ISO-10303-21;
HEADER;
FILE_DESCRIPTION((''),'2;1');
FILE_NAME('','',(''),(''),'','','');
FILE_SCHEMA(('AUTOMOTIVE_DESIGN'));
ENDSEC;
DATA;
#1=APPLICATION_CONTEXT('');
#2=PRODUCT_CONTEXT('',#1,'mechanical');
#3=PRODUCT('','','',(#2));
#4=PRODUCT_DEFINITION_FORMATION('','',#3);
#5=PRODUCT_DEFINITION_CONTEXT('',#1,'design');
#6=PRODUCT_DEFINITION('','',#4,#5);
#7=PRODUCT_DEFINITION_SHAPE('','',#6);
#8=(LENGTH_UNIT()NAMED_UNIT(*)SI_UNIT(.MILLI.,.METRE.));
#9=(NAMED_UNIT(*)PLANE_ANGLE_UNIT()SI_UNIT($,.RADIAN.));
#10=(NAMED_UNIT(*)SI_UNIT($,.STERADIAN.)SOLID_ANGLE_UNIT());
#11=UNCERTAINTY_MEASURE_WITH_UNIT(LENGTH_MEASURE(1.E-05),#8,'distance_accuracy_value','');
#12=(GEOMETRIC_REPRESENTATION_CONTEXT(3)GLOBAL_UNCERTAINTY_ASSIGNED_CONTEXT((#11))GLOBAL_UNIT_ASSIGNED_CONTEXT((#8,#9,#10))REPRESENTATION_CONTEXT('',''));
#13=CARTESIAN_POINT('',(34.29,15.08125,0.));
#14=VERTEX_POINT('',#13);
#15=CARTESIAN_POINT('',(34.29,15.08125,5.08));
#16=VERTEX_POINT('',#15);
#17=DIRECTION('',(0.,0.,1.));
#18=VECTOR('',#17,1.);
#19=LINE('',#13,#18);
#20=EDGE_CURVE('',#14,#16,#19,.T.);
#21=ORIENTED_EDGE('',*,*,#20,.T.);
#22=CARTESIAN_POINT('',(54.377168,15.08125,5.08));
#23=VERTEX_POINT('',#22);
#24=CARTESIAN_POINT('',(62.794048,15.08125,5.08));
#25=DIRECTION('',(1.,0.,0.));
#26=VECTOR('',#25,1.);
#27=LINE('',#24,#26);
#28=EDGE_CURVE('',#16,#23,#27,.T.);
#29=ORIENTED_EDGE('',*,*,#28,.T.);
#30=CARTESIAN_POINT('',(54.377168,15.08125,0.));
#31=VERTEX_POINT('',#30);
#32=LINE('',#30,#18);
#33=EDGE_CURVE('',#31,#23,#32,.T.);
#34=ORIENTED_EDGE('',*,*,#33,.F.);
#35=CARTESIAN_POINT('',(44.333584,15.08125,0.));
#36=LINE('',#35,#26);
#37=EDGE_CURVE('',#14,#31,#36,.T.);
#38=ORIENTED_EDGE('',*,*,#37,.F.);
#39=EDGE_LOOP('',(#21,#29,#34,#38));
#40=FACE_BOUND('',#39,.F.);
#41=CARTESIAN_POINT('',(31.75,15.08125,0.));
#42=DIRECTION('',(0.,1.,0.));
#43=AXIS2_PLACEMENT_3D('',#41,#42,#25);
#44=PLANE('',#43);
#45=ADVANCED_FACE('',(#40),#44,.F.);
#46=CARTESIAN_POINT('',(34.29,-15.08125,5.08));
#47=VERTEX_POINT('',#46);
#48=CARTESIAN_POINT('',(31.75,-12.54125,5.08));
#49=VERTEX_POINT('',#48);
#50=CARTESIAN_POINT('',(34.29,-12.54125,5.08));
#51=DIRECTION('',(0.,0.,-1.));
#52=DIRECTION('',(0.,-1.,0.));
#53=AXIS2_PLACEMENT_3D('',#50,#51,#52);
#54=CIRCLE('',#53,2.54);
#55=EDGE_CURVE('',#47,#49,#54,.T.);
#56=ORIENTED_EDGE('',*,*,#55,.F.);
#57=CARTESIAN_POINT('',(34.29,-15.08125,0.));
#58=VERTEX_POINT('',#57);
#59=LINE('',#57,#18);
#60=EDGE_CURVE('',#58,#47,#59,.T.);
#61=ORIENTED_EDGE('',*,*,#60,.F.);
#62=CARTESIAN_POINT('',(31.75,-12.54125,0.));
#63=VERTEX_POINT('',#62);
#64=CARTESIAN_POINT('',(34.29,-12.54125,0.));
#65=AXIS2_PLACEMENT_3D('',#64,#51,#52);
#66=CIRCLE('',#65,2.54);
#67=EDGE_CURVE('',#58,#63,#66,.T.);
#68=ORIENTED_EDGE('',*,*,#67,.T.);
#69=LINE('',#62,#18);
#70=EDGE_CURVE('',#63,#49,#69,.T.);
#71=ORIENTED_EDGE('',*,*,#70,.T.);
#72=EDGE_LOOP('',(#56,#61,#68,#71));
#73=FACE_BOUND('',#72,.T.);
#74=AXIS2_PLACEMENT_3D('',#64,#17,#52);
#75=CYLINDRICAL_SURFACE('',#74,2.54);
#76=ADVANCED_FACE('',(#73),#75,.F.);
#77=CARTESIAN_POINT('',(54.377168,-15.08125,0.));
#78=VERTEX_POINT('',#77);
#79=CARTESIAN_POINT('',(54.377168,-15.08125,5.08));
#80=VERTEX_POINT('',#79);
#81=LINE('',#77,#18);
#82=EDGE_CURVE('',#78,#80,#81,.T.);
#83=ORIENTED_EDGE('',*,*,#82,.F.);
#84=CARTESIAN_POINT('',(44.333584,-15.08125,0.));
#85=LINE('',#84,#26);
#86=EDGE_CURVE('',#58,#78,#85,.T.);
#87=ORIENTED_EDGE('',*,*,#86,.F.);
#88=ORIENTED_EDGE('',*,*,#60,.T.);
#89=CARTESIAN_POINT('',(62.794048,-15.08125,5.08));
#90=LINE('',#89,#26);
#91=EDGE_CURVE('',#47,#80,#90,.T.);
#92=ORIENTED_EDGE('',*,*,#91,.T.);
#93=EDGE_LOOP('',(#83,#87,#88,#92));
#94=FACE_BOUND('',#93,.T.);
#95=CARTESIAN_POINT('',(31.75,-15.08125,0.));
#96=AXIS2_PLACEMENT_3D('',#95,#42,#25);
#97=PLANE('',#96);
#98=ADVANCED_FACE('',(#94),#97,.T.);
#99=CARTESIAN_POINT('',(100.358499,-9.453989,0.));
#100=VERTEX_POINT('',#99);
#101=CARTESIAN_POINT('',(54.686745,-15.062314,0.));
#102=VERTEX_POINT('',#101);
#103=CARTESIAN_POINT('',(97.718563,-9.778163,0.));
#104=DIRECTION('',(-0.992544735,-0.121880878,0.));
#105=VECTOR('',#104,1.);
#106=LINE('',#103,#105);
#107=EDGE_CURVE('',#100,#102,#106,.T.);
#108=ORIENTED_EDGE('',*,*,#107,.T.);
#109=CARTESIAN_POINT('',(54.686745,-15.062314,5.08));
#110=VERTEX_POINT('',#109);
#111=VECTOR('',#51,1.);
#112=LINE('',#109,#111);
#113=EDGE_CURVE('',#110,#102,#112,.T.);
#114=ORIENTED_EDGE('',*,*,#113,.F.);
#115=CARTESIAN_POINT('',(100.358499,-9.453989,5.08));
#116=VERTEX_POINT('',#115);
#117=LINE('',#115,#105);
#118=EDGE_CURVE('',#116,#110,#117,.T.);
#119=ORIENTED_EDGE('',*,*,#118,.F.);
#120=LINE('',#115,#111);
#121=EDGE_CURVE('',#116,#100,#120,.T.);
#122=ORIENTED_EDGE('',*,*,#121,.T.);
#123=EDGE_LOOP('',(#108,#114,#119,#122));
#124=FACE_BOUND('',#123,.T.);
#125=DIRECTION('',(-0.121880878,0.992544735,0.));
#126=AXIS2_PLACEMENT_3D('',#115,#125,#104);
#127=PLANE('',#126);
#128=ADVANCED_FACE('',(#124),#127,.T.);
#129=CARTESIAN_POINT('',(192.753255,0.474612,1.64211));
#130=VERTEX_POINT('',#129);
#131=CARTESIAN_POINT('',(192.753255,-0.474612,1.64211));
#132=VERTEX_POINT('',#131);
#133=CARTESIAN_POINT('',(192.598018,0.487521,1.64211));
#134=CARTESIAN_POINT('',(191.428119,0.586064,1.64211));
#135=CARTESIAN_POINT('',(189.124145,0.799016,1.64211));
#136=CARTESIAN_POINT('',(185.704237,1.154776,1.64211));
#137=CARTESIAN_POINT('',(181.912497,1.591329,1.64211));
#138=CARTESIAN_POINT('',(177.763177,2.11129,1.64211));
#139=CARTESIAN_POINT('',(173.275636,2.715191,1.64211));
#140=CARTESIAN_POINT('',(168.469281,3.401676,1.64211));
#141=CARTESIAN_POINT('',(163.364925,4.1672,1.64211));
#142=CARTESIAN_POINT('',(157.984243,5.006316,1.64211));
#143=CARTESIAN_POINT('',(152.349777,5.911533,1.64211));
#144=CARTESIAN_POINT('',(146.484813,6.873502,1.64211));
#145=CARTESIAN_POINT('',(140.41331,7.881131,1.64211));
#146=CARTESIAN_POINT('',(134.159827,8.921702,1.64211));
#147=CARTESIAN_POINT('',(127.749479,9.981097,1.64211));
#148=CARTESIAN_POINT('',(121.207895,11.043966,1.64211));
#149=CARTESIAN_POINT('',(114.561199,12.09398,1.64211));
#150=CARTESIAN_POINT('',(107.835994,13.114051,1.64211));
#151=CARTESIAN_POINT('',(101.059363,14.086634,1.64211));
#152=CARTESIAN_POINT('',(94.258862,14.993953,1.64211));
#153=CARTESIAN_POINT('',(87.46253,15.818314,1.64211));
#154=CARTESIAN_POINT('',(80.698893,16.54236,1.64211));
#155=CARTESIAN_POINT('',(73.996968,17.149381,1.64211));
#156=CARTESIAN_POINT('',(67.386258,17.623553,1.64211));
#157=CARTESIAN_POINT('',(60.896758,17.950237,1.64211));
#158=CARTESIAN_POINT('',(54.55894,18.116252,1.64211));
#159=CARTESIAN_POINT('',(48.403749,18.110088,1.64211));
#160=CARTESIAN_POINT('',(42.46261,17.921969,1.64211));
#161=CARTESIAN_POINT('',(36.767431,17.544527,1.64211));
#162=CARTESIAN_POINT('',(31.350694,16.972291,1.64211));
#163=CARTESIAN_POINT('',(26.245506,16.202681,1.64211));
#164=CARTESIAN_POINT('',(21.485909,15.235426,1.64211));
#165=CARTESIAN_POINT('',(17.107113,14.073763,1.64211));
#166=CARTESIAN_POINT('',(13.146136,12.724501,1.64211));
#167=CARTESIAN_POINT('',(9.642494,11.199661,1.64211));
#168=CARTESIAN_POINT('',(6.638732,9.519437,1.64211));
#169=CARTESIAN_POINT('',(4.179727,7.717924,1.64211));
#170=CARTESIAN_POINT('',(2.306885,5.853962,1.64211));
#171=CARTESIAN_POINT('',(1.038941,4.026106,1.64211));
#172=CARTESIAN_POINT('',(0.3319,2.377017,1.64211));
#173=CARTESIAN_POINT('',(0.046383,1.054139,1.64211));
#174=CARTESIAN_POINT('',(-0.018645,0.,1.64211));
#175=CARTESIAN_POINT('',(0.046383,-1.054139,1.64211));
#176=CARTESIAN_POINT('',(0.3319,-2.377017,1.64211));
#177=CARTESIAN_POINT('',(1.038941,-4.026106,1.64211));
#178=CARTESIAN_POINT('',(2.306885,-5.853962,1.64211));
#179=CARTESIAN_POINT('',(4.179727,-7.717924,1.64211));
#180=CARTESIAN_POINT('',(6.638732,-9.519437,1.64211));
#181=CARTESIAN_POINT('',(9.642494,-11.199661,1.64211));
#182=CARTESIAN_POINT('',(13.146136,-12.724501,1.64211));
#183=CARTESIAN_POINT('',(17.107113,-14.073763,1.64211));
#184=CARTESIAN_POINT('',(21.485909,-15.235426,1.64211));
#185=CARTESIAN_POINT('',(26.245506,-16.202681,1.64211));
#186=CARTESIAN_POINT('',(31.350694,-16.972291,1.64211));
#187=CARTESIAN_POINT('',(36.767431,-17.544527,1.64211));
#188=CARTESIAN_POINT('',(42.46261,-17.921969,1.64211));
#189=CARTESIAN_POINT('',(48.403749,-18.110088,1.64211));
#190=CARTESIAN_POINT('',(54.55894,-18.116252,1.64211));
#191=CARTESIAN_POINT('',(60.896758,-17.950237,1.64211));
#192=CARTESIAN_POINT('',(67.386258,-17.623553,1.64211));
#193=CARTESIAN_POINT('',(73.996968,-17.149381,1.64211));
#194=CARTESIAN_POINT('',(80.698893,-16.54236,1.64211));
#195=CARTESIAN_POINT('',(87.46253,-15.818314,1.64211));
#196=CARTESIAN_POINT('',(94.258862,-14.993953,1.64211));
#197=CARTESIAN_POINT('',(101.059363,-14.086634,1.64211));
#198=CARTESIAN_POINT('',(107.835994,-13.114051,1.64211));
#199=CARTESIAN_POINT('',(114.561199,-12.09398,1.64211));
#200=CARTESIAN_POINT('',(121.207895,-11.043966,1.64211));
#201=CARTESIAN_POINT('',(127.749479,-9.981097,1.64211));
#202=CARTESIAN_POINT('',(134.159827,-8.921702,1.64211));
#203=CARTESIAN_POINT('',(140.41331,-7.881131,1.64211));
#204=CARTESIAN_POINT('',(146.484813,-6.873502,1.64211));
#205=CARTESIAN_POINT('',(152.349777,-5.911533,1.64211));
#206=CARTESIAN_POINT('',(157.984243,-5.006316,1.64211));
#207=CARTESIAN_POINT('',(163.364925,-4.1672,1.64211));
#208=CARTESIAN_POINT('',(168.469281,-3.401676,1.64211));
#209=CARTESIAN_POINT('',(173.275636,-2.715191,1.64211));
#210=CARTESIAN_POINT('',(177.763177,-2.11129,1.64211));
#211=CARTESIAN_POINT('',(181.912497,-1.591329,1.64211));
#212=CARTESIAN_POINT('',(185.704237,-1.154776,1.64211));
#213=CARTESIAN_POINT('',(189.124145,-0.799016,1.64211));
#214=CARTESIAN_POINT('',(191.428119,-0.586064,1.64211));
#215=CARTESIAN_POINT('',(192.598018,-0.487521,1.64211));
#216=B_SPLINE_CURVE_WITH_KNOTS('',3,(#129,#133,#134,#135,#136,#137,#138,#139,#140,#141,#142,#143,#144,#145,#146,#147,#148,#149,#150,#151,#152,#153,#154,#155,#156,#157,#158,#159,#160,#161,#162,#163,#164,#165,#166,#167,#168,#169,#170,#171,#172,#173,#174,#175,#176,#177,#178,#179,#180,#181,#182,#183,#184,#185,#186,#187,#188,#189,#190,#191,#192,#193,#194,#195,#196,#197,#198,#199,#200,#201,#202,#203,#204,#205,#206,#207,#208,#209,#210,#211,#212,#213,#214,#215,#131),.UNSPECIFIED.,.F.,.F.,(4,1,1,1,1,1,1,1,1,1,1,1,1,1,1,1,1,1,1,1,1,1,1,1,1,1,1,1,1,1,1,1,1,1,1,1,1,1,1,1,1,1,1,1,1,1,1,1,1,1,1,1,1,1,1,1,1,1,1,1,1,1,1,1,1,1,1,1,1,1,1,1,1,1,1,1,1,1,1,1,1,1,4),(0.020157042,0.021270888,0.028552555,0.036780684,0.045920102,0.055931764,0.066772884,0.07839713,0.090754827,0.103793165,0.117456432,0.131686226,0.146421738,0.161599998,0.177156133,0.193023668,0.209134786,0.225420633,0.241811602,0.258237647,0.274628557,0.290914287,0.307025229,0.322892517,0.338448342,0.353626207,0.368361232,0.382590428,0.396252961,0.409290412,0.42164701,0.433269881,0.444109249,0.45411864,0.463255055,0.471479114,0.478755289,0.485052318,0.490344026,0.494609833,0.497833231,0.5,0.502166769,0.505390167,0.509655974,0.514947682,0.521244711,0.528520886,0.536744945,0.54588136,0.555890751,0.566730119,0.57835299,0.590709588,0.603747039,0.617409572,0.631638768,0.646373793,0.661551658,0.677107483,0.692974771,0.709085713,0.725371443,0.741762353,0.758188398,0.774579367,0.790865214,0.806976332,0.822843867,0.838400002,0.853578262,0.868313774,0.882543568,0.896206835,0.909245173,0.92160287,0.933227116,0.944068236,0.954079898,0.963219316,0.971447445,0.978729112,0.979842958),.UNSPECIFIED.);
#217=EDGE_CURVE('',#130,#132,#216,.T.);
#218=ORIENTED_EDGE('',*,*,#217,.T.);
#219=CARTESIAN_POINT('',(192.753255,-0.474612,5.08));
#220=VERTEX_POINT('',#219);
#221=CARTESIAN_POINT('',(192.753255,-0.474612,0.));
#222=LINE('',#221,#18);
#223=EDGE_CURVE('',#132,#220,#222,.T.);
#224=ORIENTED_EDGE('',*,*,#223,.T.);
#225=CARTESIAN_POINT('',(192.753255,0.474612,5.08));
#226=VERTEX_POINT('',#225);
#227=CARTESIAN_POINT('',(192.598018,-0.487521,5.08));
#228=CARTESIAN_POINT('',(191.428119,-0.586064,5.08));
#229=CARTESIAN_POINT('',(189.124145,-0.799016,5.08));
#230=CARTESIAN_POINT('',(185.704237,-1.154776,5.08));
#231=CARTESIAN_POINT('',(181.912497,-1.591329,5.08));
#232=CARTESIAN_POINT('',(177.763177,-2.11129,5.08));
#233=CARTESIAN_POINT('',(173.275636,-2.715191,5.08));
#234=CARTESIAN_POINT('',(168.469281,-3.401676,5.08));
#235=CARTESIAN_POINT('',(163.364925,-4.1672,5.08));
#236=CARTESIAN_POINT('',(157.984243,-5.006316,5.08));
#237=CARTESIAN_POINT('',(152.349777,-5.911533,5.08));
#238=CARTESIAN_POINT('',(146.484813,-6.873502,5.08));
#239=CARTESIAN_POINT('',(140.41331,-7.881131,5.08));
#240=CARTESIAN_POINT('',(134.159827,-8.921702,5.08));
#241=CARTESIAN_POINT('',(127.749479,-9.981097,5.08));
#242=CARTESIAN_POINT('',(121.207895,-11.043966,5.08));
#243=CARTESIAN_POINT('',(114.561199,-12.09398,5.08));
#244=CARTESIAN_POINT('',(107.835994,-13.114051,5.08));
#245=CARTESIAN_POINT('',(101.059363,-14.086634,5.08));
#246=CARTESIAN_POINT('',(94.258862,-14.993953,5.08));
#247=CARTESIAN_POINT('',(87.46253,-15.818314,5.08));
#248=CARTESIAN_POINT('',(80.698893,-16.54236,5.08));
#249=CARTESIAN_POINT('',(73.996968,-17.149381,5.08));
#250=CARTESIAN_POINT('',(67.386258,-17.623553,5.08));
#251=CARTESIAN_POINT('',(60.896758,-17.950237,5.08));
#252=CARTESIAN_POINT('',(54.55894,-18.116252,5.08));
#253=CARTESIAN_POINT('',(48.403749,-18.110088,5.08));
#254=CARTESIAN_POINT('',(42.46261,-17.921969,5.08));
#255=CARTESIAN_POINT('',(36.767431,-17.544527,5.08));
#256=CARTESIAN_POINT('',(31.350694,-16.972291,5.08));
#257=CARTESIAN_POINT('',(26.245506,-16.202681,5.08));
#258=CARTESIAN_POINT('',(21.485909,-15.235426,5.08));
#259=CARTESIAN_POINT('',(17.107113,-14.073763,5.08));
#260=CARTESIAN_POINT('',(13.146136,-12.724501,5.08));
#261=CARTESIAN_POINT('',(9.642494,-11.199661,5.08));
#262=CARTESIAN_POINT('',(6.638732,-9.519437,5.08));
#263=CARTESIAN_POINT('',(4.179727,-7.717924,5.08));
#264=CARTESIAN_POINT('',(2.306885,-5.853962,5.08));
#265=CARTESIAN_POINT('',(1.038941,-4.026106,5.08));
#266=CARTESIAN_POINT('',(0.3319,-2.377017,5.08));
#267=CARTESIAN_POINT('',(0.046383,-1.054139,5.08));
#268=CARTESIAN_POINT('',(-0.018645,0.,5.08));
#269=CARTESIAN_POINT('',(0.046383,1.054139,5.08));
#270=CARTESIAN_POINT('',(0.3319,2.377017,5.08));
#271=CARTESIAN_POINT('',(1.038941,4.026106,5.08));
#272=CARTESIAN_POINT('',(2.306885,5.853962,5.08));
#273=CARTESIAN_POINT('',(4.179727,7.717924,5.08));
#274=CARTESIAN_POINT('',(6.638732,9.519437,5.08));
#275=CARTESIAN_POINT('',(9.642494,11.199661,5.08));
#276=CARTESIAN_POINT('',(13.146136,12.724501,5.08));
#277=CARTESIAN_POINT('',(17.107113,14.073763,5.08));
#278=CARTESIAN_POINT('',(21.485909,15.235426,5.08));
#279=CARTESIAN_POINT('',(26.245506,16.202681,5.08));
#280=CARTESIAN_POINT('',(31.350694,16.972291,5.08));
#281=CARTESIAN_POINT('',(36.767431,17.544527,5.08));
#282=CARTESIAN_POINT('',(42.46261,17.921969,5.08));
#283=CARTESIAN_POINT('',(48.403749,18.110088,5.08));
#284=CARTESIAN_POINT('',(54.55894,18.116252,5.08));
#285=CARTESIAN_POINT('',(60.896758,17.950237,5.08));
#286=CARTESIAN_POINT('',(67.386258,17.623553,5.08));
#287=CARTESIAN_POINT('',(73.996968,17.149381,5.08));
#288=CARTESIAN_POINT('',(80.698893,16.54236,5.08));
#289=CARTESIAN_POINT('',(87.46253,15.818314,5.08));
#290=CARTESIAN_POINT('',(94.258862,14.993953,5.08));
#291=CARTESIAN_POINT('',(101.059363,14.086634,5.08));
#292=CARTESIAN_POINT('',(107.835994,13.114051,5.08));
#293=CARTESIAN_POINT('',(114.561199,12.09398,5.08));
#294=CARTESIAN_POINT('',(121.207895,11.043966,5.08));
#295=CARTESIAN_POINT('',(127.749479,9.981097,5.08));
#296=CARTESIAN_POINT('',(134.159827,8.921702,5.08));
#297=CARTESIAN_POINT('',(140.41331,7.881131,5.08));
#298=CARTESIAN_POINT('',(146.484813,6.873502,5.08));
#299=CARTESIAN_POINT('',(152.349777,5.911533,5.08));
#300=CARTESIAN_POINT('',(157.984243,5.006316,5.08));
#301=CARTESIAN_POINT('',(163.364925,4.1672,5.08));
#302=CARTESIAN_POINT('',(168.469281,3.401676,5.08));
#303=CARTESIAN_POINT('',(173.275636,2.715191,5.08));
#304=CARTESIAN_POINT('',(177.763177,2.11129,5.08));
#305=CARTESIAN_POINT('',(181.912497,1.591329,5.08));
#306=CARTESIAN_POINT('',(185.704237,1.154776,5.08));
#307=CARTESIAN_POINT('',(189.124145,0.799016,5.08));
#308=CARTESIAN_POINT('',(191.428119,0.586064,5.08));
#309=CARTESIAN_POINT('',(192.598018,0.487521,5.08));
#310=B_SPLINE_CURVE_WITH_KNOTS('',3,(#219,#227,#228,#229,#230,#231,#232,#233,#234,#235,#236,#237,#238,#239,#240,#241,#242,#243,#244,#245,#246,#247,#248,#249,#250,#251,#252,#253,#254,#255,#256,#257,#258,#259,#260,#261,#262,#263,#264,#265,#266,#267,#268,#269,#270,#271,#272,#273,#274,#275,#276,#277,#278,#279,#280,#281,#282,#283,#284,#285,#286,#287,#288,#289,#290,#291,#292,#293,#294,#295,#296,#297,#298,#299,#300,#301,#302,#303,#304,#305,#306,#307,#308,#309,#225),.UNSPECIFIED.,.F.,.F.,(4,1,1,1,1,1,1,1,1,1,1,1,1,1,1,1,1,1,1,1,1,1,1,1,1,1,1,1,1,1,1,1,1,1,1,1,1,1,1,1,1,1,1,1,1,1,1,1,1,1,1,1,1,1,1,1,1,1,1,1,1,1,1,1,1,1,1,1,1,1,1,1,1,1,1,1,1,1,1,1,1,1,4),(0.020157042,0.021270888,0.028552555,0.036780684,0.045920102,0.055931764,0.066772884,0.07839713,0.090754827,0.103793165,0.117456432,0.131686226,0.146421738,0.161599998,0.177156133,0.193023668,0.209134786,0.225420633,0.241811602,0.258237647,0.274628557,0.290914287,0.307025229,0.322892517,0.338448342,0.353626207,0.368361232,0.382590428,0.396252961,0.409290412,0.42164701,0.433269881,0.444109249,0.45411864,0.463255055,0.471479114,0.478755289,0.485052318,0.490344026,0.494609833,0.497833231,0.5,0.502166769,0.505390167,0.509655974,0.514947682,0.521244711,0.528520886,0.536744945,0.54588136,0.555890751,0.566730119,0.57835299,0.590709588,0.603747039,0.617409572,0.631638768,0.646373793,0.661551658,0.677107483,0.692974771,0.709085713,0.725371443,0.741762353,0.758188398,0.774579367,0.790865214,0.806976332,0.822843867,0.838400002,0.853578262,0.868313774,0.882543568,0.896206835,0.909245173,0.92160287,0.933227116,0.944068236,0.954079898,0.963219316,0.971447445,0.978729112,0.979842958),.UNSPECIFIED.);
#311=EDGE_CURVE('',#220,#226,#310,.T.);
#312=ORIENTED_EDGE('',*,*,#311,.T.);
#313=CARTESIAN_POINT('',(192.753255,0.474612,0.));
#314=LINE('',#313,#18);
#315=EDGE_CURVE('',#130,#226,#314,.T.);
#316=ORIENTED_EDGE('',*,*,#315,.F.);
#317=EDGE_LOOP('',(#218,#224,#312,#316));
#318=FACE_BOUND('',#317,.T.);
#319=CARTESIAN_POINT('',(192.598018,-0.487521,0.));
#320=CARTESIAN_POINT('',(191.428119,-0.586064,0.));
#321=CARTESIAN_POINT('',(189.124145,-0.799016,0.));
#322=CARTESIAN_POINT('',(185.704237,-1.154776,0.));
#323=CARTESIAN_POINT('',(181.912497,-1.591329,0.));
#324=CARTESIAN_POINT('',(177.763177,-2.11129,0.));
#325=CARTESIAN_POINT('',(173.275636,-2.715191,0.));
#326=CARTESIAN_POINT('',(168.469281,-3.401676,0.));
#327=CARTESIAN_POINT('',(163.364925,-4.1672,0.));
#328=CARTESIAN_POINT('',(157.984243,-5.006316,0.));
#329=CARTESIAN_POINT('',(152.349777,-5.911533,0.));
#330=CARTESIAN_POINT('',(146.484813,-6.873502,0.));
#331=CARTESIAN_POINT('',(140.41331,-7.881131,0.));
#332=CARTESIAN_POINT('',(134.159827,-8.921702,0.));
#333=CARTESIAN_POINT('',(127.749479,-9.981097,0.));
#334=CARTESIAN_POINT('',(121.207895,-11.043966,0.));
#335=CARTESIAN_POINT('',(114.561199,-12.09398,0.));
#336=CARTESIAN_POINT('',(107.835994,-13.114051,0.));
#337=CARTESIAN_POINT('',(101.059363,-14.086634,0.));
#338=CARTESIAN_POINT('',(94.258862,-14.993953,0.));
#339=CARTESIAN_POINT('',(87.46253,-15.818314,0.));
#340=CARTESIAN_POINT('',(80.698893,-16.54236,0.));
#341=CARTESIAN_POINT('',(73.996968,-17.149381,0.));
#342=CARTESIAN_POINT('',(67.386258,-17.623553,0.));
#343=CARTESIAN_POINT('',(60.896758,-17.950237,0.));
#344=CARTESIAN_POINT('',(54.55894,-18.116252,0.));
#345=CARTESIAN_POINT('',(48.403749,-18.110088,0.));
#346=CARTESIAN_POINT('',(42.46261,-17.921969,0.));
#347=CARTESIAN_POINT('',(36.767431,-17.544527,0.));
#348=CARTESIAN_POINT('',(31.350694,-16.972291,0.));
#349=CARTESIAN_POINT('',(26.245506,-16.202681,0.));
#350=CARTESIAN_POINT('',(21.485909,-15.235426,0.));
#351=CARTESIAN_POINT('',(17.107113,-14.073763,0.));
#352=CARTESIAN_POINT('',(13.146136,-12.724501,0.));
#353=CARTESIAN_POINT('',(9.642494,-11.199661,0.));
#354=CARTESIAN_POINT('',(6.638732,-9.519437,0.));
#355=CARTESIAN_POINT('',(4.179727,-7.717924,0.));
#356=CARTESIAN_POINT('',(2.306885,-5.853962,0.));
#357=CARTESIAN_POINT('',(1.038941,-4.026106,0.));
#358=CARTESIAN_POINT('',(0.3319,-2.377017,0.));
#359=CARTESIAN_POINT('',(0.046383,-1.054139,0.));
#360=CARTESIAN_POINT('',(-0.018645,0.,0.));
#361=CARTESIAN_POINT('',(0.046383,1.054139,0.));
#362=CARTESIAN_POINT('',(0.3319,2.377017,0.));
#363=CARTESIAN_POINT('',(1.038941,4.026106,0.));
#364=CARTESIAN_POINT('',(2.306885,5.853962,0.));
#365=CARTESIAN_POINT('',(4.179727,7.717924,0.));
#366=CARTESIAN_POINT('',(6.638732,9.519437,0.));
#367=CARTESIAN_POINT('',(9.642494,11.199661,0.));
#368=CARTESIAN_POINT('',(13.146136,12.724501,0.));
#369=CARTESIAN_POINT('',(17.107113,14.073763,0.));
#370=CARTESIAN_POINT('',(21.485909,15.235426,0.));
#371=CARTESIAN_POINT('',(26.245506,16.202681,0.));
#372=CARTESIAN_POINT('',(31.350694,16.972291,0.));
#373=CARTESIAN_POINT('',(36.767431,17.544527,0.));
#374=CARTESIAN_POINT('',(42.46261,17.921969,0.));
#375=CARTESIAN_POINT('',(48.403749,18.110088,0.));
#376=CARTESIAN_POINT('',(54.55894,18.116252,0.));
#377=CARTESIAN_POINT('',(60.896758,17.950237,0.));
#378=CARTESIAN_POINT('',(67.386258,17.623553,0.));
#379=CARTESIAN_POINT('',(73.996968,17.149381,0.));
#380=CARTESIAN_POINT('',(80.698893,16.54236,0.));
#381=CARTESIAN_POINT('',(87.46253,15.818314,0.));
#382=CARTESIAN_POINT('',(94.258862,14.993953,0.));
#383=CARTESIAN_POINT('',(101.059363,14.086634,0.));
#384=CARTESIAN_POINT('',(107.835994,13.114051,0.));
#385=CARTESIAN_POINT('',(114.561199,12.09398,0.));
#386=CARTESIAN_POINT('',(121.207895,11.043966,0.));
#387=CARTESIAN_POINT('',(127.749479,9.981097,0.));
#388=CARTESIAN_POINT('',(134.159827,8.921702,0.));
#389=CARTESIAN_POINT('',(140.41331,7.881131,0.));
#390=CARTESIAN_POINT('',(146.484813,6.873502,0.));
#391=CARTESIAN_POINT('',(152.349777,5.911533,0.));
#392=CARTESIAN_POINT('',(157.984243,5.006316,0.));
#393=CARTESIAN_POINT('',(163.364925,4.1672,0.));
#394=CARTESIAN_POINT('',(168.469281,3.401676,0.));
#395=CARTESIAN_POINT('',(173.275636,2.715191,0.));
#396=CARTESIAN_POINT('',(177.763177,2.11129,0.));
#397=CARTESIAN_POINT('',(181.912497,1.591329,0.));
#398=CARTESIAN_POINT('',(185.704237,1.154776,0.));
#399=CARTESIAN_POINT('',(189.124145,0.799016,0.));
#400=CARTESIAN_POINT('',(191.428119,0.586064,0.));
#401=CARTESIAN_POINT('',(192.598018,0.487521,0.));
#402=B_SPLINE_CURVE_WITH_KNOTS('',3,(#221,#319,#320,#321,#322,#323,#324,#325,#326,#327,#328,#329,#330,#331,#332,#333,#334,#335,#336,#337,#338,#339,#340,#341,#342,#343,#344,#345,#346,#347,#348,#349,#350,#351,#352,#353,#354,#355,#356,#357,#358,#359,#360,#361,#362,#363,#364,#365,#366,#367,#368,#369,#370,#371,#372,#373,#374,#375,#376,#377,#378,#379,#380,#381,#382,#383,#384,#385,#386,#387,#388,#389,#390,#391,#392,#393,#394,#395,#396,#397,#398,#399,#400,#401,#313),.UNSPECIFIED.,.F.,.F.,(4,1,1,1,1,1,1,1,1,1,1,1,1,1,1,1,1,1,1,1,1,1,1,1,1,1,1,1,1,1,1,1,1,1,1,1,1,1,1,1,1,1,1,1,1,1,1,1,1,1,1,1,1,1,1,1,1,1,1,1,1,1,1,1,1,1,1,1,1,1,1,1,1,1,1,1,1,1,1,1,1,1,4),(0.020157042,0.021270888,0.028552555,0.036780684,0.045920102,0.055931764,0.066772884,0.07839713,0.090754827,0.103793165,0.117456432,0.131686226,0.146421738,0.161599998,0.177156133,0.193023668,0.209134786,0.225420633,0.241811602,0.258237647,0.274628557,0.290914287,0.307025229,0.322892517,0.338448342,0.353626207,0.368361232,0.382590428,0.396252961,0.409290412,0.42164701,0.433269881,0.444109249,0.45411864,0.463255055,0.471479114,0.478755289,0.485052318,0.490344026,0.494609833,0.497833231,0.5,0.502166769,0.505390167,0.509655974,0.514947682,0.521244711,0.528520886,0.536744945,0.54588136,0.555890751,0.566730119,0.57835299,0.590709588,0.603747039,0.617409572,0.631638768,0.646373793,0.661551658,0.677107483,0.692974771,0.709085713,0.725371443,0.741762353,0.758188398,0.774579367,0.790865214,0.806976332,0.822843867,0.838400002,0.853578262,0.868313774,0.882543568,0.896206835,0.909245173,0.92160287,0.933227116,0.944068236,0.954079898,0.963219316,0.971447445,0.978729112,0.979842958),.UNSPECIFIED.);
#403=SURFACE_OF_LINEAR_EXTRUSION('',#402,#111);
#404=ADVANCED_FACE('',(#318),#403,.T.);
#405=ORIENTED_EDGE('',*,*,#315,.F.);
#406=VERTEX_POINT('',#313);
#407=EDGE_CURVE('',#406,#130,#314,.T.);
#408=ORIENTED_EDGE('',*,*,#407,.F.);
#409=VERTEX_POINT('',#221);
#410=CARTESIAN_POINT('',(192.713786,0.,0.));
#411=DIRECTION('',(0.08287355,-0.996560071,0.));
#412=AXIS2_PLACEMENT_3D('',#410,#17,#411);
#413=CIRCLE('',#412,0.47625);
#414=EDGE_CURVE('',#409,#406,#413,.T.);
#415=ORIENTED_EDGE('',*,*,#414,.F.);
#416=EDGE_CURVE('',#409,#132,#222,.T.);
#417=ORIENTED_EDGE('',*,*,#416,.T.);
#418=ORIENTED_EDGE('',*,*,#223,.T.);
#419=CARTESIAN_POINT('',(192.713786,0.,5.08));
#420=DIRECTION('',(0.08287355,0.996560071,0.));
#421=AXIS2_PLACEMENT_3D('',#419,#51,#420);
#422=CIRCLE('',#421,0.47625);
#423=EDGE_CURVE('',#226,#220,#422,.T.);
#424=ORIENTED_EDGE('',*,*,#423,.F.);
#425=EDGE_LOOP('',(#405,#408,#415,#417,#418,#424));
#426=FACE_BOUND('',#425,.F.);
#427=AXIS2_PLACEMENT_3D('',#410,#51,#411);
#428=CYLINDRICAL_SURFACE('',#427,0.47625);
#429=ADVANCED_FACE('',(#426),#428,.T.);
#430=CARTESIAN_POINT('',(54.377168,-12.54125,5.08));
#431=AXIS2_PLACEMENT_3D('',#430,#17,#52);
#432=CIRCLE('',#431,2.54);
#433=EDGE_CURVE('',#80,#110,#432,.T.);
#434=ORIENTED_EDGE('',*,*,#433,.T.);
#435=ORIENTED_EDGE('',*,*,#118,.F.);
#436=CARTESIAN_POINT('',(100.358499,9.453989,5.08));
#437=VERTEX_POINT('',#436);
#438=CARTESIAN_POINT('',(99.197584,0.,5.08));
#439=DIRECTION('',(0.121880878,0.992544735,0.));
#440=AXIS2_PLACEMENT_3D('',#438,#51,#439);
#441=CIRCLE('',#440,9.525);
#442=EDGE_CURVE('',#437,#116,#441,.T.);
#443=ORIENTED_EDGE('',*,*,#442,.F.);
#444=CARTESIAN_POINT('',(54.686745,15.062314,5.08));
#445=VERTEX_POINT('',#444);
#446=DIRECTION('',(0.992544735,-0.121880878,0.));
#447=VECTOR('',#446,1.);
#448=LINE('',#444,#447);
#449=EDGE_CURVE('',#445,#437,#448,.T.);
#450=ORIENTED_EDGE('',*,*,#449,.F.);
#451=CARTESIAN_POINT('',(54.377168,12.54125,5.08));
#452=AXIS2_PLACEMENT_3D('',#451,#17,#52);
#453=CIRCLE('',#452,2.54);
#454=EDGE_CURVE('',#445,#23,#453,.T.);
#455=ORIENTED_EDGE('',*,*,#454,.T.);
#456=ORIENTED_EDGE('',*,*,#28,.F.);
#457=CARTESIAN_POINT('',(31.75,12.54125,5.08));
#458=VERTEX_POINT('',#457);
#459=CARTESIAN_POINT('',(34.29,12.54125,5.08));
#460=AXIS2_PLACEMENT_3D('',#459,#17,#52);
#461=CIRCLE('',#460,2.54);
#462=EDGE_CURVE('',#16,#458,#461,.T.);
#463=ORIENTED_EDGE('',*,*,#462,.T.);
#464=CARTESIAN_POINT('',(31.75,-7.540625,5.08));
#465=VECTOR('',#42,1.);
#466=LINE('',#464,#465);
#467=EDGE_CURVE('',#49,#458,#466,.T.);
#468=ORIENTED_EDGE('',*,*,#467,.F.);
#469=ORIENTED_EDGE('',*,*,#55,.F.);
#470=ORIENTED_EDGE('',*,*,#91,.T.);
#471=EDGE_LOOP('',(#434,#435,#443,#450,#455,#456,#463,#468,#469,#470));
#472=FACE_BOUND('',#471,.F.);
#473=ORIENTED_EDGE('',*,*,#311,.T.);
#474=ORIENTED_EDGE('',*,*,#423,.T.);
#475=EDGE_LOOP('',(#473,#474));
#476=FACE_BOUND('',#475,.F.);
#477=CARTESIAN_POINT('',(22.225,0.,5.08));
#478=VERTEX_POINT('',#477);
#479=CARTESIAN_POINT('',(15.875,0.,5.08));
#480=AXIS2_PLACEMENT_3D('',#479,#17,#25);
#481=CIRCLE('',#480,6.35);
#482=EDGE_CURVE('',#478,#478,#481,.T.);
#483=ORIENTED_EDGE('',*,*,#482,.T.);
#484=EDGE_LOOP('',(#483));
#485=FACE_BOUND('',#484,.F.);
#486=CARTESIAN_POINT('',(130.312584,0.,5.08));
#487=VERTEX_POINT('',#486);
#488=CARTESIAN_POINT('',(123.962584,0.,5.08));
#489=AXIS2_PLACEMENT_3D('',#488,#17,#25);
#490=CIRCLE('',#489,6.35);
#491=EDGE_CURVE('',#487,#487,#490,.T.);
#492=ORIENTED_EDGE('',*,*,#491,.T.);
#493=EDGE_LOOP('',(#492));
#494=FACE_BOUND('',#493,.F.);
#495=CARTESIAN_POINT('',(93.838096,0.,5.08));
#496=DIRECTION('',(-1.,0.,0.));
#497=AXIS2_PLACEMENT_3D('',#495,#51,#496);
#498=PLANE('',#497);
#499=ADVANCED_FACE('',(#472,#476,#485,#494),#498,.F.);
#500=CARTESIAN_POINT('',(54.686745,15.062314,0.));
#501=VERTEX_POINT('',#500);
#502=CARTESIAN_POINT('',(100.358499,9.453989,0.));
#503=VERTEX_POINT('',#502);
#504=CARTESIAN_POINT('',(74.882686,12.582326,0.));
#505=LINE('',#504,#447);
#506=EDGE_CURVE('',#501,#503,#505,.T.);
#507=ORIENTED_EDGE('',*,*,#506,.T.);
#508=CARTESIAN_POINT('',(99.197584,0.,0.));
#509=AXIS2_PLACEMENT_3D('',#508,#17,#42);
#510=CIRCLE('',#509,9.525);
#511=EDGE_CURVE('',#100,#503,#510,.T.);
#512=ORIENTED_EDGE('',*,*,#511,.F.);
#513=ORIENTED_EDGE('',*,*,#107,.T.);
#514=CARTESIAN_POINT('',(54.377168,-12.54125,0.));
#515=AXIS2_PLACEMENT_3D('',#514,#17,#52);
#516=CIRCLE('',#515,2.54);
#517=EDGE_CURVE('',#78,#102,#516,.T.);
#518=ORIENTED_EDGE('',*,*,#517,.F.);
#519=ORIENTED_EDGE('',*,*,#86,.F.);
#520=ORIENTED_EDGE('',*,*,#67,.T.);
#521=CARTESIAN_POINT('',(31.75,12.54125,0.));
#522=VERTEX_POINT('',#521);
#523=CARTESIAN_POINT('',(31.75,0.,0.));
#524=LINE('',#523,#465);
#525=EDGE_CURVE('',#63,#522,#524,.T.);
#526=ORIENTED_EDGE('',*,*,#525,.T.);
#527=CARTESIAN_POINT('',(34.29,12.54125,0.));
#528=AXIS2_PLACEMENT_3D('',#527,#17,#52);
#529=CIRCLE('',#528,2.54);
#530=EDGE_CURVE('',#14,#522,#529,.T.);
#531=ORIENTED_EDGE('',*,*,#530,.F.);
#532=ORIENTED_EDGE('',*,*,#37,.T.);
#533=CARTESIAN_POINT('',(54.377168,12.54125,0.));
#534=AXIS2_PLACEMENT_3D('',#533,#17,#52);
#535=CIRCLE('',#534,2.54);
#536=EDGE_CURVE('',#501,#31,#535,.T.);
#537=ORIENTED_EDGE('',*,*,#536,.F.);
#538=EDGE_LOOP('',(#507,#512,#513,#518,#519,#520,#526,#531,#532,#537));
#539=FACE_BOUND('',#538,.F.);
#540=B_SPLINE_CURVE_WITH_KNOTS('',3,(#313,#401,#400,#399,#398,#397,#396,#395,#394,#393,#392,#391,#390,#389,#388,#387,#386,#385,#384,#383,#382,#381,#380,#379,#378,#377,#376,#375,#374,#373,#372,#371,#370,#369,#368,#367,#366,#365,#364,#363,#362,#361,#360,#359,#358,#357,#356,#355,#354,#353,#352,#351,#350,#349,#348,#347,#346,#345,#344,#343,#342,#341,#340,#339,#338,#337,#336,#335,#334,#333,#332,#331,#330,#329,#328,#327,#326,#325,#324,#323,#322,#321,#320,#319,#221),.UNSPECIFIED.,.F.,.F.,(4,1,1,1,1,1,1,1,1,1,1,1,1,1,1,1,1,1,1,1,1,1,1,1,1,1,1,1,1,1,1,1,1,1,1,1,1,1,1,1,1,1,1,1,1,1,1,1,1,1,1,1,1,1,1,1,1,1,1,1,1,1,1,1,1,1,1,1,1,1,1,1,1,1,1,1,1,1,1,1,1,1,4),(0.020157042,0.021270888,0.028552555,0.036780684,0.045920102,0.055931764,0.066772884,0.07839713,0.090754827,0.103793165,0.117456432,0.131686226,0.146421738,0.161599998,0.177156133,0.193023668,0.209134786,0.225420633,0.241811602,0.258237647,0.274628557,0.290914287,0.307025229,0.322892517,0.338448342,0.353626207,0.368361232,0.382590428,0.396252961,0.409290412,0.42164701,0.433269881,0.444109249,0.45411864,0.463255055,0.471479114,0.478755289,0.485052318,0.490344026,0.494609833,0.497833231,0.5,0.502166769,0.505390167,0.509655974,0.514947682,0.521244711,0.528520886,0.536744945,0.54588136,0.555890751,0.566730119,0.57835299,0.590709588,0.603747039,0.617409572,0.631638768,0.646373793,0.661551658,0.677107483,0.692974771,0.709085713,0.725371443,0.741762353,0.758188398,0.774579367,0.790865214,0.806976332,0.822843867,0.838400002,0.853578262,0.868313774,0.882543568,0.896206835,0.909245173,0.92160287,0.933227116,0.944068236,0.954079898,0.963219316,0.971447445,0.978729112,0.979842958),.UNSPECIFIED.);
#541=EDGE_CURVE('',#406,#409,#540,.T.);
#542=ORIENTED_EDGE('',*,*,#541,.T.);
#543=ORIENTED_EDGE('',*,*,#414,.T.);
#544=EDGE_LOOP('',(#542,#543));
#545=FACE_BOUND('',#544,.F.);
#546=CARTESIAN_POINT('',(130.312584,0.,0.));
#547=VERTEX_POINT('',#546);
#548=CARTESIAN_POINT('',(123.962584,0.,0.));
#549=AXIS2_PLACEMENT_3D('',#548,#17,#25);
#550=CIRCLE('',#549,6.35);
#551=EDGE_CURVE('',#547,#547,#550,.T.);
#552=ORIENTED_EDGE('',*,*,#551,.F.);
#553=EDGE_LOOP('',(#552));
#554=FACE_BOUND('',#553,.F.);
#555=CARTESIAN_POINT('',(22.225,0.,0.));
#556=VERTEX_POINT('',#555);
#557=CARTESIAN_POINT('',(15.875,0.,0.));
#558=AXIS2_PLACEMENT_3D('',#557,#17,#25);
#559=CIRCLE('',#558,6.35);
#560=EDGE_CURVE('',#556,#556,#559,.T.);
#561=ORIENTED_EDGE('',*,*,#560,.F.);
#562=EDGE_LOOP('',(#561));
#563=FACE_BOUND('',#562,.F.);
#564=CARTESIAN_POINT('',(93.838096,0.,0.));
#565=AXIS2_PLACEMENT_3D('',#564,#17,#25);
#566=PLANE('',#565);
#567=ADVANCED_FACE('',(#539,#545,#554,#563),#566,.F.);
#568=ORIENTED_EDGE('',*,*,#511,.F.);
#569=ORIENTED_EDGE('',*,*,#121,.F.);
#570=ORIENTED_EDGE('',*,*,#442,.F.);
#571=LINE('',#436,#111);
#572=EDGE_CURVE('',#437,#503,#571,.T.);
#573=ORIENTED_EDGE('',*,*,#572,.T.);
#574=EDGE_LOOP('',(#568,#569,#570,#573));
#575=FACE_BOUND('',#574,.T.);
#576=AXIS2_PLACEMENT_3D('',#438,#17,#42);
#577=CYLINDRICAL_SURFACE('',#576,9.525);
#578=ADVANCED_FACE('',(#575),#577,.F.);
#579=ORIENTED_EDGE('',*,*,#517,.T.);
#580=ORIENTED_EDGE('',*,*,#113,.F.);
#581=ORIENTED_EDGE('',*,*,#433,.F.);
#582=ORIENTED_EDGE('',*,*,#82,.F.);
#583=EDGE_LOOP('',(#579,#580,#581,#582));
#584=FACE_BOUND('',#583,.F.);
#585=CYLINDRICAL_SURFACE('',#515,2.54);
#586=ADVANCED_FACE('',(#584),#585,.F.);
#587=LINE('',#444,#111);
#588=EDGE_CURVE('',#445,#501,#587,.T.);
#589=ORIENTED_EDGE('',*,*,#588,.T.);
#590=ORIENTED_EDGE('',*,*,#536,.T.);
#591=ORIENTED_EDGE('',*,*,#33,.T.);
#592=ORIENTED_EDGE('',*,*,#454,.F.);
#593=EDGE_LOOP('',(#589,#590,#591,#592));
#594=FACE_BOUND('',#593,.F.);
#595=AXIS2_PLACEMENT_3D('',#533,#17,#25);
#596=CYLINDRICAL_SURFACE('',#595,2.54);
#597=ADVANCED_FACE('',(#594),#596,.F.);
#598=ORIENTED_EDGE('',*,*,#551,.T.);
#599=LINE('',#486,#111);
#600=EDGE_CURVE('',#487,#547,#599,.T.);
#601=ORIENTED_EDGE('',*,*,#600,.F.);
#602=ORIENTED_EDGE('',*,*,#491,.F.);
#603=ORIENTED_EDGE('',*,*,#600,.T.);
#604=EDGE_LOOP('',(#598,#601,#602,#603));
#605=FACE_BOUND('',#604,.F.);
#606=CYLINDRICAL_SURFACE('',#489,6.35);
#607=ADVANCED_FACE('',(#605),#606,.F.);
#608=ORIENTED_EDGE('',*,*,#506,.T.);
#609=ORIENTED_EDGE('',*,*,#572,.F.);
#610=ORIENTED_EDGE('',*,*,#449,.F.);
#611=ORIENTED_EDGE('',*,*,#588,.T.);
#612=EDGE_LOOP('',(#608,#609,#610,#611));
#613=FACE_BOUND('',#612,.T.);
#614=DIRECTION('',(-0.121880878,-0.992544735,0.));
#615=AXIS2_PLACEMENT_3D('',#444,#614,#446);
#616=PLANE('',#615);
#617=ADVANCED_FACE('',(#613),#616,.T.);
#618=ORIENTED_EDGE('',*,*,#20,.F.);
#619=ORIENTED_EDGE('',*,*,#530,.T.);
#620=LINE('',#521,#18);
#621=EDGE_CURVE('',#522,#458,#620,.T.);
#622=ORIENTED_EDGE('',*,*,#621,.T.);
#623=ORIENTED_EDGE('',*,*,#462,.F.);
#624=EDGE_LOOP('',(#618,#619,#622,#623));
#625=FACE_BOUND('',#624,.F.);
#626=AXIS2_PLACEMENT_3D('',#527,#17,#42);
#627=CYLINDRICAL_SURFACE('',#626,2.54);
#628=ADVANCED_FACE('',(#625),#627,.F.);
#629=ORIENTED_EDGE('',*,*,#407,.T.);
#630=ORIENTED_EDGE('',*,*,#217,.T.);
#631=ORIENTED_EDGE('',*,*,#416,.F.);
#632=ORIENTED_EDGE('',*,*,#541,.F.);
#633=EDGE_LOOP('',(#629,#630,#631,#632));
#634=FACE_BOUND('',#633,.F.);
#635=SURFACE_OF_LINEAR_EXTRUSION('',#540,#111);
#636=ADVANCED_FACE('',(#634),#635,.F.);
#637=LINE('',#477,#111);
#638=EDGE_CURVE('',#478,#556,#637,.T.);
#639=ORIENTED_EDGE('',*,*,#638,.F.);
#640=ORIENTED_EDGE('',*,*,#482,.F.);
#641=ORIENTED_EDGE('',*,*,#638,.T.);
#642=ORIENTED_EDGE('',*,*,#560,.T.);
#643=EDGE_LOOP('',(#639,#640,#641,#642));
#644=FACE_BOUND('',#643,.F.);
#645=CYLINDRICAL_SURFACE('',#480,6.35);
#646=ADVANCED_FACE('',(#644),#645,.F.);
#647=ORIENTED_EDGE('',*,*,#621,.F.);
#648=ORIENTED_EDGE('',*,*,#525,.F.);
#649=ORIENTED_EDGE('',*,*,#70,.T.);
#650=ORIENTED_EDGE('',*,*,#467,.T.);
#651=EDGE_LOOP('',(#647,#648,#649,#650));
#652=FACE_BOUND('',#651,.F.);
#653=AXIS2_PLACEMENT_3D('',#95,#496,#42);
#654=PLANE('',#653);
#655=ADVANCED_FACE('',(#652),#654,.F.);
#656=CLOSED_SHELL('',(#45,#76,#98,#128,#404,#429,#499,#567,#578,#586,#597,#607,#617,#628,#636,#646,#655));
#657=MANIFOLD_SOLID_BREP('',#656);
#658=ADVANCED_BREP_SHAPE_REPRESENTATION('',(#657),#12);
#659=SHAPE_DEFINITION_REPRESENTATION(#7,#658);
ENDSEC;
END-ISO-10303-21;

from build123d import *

# Parameters (mm, degrees)
BOSS_EXTRUDE1_DEPTH = 5.4737
SCALE1_SCALE        = 0.3
BOSS_EXTRUDE2_DEPTH = 5.08
SKETCH10_W          = 25.167167629
SKETCH10_H          = 30.1625
CUT_EXTRUDE6_DEPTH  = 6.0800001
FILLET1_R           = 2.54
CUT_EXTRUDE8_DEPTH  = 6.0800001
CUT_EXTRUDE9_DEPTH  = 6.0800001
SKETCH19_R          = 6.35
CUT_EXTRUDE10_DEPTH = 6.0800001


with BuildPart() as part:
    # Sketch2 → Boss-Extrude1 (new body)
    with BuildSketch(Plane.XY):
        with BuildLine():
            add(Edge.make_bspline(
                [(642.510849283, 1.582039112), (641.993392355, 1.625070631), (638.093728429, 1.953546407), (630.413817462, 2.663385493), (619.014124193, 3.849253664), (606.374988512, 5.304428983), (592.543922516, 7.037634907), (577.585454095, 9.050636147), (561.564270734, 11.338919625), (544.549749946, 13.890665375), (526.614143658, 16.687720753), (507.832591566, 19.705111663), (488.282710288, 22.911672601), (468.044367735, 26.27043606), (447.199424328, 29.739007432), (425.831595832, 33.270324121), (404.02631566, 36.813220545), (381.870662856, 40.313266856), (359.453314895, 43.713502532), (336.86454415, 46.955447457), (314.196207315, 49.979843895), (291.541767704, 52.727712704), (268.996310773, 55.141201012), (246.65655865, 57.164603829), (224.620860897, 58.745176641), (202.989192599, 59.8341217), (181.863132616, 60.387506142), (161.345829027, 60.366961324), (141.542033828, 59.739895824), (122.558104573, 58.481758104), (104.502313427, 56.574303932), (87.485018636, 54.008935199), (71.619696083, 50.784752003), (57.023709725, 46.912543066), (43.82045433, 42.41500246), (32.141645239, 37.332204029), (22.129107375, 31.731455339), (13.932423524, 25.726412106), (7.689616489, 19.513207632), (3.463136343, 13.420354421), (1.106333228, 7.923389435), (0.154611582, 3.513796615), (-0.062151598, 0), (0.154611582, -3.513796615), (1.106333228, -7.923389435), (3.463136343, -13.420354421), (7.689616489, -19.513207632), (13.932423524, -25.726412106), (22.129107375, -31.731455339), (32.141645239, -37.332204029), (43.82045433, -42.41500246), (57.023709725, -46.912543066), (71.619696083, -50.784752003), (87.485018636, -54.008935199), (104.502313427, -56.574303932), (122.558104573, -58.481758104), (141.542033828, -59.739895824), (161.345829027, -60.366961324), (181.863132616, -60.387506142), (202.989192599, -59.8341217), (224.620860897, -58.745176641), (246.65655865, -57.164603829), (268.996310773, -55.141201012), (291.541767704, -52.727712704), (314.196207315, -49.979843895), (336.86454415, -46.955447457), (359.453314895, -43.713502532), (381.870662856, -40.313266856), (404.02631566, -36.813220545), (425.831595832, -33.270324121), (447.199424328, -29.739007432), (468.044367735, -26.27043606), (488.282710288, -22.911672601), (507.832591566, -19.705111663), (526.614143658, -16.687720753), (544.549749946, -13.890665375), (561.564270734, -11.338919625), (577.585454095, -9.050636147), (592.543922516, -7.037634907), (606.374988512, -5.304428983), (619.014124193, -3.849253664), (630.413817462, -2.663385493), (638.093728429, -1.953546407), (641.993392355, -1.625070631), (642.510849283, -1.582039112)],
                knots=[0.020157042, 0.020157042, 0.020157042, 0.020157042, 0.021270888, 0.028552555, 0.036780684, 0.045920102, 0.055931764, 0.066772884, 0.07839713, 0.090754827, 0.103793165, 0.117456432, 0.131686226, 0.146421738, 0.161599998, 0.177156133, 0.193023668, 0.209134786, 0.225420633, 0.241811602, 0.258237647, 0.274628557, 0.290914287, 0.307025229, 0.322892517, 0.338448342, 0.353626207, 0.368361232, 0.382590428, 0.396252961, 0.409290412, 0.42164701, 0.433269881, 0.444109249, 0.45411864, 0.463255055, 0.471479114, 0.478755289, 0.485052318, 0.490344026, 0.494609833, 0.497833231, 0.5, 0.502166769, 0.505390167, 0.509655974, 0.514947682, 0.521244711, 0.528520886, 0.536744945, 0.54588136, 0.555890751, 0.566730119, 0.57835299, 0.590709588, 0.603747039, 0.617409572, 0.631638768, 0.646373793, 0.661551658, 0.677107483, 0.692974771, 0.709085713, 0.725371443, 0.741762353, 0.758188398, 0.774579367, 0.790865214, 0.806976332, 0.822843867, 0.838400002, 0.853578262, 0.868313774, 0.882543568, 0.896206835, 0.909245173, 0.92160287, 0.933227116, 0.944068236, 0.954079898, 0.963219316, 0.971447445, 0.978729112, 0.979842958, 0.979842958, 0.979842958, 0.979842958], degree=3))
            ThreePointArc((642.510849283, -1.582039112), (643.966787522, 0), (642.510849283, 1.582039112))
        make_face()
    extrude(amount=BOSS_EXTRUDE1_DEPTH)


with BuildPart() as part_1:
    # Scale1: scaled about (0, 0, 0)
    add(part.part.scale(SCALE1_SCALE))

    # Sketch11 → Boss-Extrude2 (add)
    with BuildSketch(Plane(origin=(0, 0, 0), x_dir=(-1, 0, 0), z_dir=(0, 0, -1))):
        with BuildLine():
            ThreePointArc((-192.753254785, 0.474611734), (-193.190036257, 0), (-192.753254785, -0.474611734))
            add(Edge.make_bspline(
                [(-192.753254785, -0.474611734), (-192.598017706, -0.487521189), (-191.428118529, -0.586063922), (-189.124145239, -0.799015648), (-185.704237258, -1.154776099), (-181.912496554, -1.591328695), (-177.763176755, -2.111290472), (-173.275636229, -2.715190844), (-168.46928122, -3.401675887), (-163.364924984, -4.167199612), (-157.984243097, -5.006316226), (-152.34977747, -5.911533499), (-146.484813087, -6.87350178), (-140.41331032, -7.881130818), (-134.159827298, -8.92170223), (-127.74947875, -9.981097236), (-121.207894698, -11.043966164), (-114.561198857, -12.093980057), (-107.835994469, -13.11405076), (-101.059363245, -14.086634237), (-94.258862195, -14.993953169), (-87.462530311, -15.818313811), (-80.698893232, -16.542360303), (-73.996967595, -17.149381149), (-67.386258269, -17.623552992), (-60.89675778, -17.95023651), (-54.558939785, -18.116251843), (-48.403748708, -18.110088397), (-42.462610148, -17.921968747), (-36.767431372, -17.544527431), (-31.350694028, -16.97229118), (-26.245505591, -16.20268056), (-21.485908825, -15.235425601), (-17.107112917, -14.07376292), (-13.146136299, -12.724500738), (-9.642493572, -11.199661209), (-6.638732213, -9.519436602), (-4.179727057, -7.717923632), (-2.306884947, -5.85396229), (-1.038940903, -4.026106326), (-0.331899968, -2.37701683), (-0.046383474, -1.054138985), (0.018645479, 0), (-0.046383474, 1.054138985), (-0.331899968, 2.37701683), (-1.038940903, 4.026106326), (-2.306884947, 5.85396229), (-4.179727057, 7.717923632), (-6.638732213, 9.519436602), (-9.642493572, 11.199661209), (-13.146136299, 12.724500738), (-17.107112917, 14.07376292), (-21.485908825, 15.235425601), (-26.245505591, 16.20268056), (-31.350694028, 16.97229118), (-36.767431372, 17.544527431), (-42.462610148, 17.921968747), (-48.403748708, 18.110088397), (-54.558939785, 18.116251843), (-60.89675778, 17.95023651), (-67.386258269, 17.623552992), (-73.996967595, 17.149381149), (-80.698893232, 16.542360303), (-87.462530311, 15.818313811), (-94.258862195, 14.993953169), (-101.059363245, 14.086634237), (-107.835994469, 13.11405076), (-114.561198857, 12.093980057), (-121.207894698, 11.043966164), (-127.74947875, 9.981097236), (-134.159827298, 8.92170223), (-140.41331032, 7.881130818), (-146.484813087, 6.87350178), (-152.34977747, 5.911533499), (-157.984243097, 5.006316226), (-163.364924984, 4.167199612), (-168.46928122, 3.401675887), (-173.275636229, 2.715190844), (-177.763176755, 2.111290472), (-181.912496554, 1.591328695), (-185.704237258, 1.154776099), (-189.124145239, 0.799015648), (-191.428118529, 0.586063922), (-192.598017706, 0.487521189), (-192.753254785, 0.474611734)],
                knots=[0.020157042, 0.020157042, 0.020157042, 0.020157042, 0.021270888, 0.028552555, 0.036780684, 0.045920102, 0.055931764, 0.066772884, 0.07839713, 0.090754827, 0.103793165, 0.117456432, 0.131686226, 0.146421738, 0.161599998, 0.177156133, 0.193023668, 0.209134786, 0.225420633, 0.241811602, 0.258237647, 0.274628557, 0.290914287, 0.307025229, 0.322892517, 0.338448342, 0.353626207, 0.368361232, 0.382590428, 0.396252961, 0.409290412, 0.42164701, 0.433269881, 0.444109249, 0.45411864, 0.463255055, 0.471479114, 0.478755289, 0.485052318, 0.490344026, 0.494609833, 0.497833231, 0.5, 0.502166769, 0.505390167, 0.509655974, 0.514947682, 0.521244711, 0.528520886, 0.536744945, 0.54588136, 0.555890751, 0.566730119, 0.57835299, 0.590709588, 0.603747039, 0.617409572, 0.631638768, 0.646373793, 0.661551658, 0.677107483, 0.692974771, 0.709085713, 0.725371443, 0.741762353, 0.758188398, 0.774579367, 0.790865214, 0.806976332, 0.822843867, 0.838400002, 0.853578262, 0.868313774, 0.882543568, 0.896206835, 0.909245173, 0.92160287, 0.933227116, 0.944068236, 0.954079898, 0.963219316, 0.971447445, 0.978729112, 0.979842958, 0.979842958, 0.979842958, 0.979842958], degree=3))
        make_face()
    extrude(amount=-BOSS_EXTRUDE2_DEPTH)

    # Sketch10 → Cut-Extrude6 (cut, through all)
    with BuildSketch(Plane.XY):
        with Locations((44.333583815, 0)):
            Rectangle(SKETCH10_W, SKETCH10_H)
    extrude(amount=CUT_EXTRUDE6_DEPTH, mode=Mode.SUBTRACT)

    # Fillet1
    fillet1_edges = [part_1.edges().sort_by_distance(p)[0] for p in [
        (56.917167629, -15.08125, 2.54),
        (56.917167629, 15.08125, 2.54),
        (31.75, 15.08125, 2.54),
        (31.75, -15.08125, 2.54),
    ]]
    fillet(fillet1_edges, radius=FILLET1_R)

    # Sketch16 → Cut-Extrude8 (cut, through all)
    with BuildSketch(Plane.XY.offset(5.08)):
        with BuildLine():
            Line((99.197583815, -9.525), (97.419583815, -9.525))
            ThreePointArc((97.419583815, -9.525), (87.894583815, 0), (97.419583815, 9.525))
            Line((97.419583815, 9.525), (99.197583815, 9.525))
            ThreePointArc((99.197583815, 9.525), (108.722583815, 0), (99.197583815, -9.525))
        make_face()
    extrude(amount=-CUT_EXTRUDE8_DEPTH, mode=Mode.SUBTRACT)

    # Sketch18 → Cut-Extrude9 (cut, through all)
    with BuildSketch(Plane.XY.offset(5.08)):
        with BuildLine():
            Line((54.686745058, 15.062313628), (100.358499174, 9.453988604))
            ThreePointArc((100.358499174, 9.453988604), (108.722583815, 0), (100.358499174, -9.453988604))
            Line((100.358499174, -9.453988604), (54.686745058, -15.062313628))
            ThreePointArc((54.686745058, -15.062313628), (56.279524939, -14.224293869), (56.917167629, -12.54125))
            Line((56.917167629, -12.54125), (56.917167629, 12.54125))
            ThreePointArc((56.917167629, 12.54125), (56.279524939, 14.224293869), (54.686745058, 15.062313628))
        make_face()
    extrude(amount=-CUT_EXTRUDE9_DEPTH, mode=Mode.SUBTRACT)

    # Sketch19 → Cut-Extrude10 (cut, through all)
    with BuildSketch(Plane.XY.offset(5.08)):
        with Locations((15.875, 0)):
            Circle(SKETCH19_R)
        with Locations((123.962583815, 0)):
            Circle(SKETCH19_R)
    extrude(amount=-CUT_EXTRUDE10_DEPTH, mode=Mode.SUBTRACT)


solid = part_1.part
